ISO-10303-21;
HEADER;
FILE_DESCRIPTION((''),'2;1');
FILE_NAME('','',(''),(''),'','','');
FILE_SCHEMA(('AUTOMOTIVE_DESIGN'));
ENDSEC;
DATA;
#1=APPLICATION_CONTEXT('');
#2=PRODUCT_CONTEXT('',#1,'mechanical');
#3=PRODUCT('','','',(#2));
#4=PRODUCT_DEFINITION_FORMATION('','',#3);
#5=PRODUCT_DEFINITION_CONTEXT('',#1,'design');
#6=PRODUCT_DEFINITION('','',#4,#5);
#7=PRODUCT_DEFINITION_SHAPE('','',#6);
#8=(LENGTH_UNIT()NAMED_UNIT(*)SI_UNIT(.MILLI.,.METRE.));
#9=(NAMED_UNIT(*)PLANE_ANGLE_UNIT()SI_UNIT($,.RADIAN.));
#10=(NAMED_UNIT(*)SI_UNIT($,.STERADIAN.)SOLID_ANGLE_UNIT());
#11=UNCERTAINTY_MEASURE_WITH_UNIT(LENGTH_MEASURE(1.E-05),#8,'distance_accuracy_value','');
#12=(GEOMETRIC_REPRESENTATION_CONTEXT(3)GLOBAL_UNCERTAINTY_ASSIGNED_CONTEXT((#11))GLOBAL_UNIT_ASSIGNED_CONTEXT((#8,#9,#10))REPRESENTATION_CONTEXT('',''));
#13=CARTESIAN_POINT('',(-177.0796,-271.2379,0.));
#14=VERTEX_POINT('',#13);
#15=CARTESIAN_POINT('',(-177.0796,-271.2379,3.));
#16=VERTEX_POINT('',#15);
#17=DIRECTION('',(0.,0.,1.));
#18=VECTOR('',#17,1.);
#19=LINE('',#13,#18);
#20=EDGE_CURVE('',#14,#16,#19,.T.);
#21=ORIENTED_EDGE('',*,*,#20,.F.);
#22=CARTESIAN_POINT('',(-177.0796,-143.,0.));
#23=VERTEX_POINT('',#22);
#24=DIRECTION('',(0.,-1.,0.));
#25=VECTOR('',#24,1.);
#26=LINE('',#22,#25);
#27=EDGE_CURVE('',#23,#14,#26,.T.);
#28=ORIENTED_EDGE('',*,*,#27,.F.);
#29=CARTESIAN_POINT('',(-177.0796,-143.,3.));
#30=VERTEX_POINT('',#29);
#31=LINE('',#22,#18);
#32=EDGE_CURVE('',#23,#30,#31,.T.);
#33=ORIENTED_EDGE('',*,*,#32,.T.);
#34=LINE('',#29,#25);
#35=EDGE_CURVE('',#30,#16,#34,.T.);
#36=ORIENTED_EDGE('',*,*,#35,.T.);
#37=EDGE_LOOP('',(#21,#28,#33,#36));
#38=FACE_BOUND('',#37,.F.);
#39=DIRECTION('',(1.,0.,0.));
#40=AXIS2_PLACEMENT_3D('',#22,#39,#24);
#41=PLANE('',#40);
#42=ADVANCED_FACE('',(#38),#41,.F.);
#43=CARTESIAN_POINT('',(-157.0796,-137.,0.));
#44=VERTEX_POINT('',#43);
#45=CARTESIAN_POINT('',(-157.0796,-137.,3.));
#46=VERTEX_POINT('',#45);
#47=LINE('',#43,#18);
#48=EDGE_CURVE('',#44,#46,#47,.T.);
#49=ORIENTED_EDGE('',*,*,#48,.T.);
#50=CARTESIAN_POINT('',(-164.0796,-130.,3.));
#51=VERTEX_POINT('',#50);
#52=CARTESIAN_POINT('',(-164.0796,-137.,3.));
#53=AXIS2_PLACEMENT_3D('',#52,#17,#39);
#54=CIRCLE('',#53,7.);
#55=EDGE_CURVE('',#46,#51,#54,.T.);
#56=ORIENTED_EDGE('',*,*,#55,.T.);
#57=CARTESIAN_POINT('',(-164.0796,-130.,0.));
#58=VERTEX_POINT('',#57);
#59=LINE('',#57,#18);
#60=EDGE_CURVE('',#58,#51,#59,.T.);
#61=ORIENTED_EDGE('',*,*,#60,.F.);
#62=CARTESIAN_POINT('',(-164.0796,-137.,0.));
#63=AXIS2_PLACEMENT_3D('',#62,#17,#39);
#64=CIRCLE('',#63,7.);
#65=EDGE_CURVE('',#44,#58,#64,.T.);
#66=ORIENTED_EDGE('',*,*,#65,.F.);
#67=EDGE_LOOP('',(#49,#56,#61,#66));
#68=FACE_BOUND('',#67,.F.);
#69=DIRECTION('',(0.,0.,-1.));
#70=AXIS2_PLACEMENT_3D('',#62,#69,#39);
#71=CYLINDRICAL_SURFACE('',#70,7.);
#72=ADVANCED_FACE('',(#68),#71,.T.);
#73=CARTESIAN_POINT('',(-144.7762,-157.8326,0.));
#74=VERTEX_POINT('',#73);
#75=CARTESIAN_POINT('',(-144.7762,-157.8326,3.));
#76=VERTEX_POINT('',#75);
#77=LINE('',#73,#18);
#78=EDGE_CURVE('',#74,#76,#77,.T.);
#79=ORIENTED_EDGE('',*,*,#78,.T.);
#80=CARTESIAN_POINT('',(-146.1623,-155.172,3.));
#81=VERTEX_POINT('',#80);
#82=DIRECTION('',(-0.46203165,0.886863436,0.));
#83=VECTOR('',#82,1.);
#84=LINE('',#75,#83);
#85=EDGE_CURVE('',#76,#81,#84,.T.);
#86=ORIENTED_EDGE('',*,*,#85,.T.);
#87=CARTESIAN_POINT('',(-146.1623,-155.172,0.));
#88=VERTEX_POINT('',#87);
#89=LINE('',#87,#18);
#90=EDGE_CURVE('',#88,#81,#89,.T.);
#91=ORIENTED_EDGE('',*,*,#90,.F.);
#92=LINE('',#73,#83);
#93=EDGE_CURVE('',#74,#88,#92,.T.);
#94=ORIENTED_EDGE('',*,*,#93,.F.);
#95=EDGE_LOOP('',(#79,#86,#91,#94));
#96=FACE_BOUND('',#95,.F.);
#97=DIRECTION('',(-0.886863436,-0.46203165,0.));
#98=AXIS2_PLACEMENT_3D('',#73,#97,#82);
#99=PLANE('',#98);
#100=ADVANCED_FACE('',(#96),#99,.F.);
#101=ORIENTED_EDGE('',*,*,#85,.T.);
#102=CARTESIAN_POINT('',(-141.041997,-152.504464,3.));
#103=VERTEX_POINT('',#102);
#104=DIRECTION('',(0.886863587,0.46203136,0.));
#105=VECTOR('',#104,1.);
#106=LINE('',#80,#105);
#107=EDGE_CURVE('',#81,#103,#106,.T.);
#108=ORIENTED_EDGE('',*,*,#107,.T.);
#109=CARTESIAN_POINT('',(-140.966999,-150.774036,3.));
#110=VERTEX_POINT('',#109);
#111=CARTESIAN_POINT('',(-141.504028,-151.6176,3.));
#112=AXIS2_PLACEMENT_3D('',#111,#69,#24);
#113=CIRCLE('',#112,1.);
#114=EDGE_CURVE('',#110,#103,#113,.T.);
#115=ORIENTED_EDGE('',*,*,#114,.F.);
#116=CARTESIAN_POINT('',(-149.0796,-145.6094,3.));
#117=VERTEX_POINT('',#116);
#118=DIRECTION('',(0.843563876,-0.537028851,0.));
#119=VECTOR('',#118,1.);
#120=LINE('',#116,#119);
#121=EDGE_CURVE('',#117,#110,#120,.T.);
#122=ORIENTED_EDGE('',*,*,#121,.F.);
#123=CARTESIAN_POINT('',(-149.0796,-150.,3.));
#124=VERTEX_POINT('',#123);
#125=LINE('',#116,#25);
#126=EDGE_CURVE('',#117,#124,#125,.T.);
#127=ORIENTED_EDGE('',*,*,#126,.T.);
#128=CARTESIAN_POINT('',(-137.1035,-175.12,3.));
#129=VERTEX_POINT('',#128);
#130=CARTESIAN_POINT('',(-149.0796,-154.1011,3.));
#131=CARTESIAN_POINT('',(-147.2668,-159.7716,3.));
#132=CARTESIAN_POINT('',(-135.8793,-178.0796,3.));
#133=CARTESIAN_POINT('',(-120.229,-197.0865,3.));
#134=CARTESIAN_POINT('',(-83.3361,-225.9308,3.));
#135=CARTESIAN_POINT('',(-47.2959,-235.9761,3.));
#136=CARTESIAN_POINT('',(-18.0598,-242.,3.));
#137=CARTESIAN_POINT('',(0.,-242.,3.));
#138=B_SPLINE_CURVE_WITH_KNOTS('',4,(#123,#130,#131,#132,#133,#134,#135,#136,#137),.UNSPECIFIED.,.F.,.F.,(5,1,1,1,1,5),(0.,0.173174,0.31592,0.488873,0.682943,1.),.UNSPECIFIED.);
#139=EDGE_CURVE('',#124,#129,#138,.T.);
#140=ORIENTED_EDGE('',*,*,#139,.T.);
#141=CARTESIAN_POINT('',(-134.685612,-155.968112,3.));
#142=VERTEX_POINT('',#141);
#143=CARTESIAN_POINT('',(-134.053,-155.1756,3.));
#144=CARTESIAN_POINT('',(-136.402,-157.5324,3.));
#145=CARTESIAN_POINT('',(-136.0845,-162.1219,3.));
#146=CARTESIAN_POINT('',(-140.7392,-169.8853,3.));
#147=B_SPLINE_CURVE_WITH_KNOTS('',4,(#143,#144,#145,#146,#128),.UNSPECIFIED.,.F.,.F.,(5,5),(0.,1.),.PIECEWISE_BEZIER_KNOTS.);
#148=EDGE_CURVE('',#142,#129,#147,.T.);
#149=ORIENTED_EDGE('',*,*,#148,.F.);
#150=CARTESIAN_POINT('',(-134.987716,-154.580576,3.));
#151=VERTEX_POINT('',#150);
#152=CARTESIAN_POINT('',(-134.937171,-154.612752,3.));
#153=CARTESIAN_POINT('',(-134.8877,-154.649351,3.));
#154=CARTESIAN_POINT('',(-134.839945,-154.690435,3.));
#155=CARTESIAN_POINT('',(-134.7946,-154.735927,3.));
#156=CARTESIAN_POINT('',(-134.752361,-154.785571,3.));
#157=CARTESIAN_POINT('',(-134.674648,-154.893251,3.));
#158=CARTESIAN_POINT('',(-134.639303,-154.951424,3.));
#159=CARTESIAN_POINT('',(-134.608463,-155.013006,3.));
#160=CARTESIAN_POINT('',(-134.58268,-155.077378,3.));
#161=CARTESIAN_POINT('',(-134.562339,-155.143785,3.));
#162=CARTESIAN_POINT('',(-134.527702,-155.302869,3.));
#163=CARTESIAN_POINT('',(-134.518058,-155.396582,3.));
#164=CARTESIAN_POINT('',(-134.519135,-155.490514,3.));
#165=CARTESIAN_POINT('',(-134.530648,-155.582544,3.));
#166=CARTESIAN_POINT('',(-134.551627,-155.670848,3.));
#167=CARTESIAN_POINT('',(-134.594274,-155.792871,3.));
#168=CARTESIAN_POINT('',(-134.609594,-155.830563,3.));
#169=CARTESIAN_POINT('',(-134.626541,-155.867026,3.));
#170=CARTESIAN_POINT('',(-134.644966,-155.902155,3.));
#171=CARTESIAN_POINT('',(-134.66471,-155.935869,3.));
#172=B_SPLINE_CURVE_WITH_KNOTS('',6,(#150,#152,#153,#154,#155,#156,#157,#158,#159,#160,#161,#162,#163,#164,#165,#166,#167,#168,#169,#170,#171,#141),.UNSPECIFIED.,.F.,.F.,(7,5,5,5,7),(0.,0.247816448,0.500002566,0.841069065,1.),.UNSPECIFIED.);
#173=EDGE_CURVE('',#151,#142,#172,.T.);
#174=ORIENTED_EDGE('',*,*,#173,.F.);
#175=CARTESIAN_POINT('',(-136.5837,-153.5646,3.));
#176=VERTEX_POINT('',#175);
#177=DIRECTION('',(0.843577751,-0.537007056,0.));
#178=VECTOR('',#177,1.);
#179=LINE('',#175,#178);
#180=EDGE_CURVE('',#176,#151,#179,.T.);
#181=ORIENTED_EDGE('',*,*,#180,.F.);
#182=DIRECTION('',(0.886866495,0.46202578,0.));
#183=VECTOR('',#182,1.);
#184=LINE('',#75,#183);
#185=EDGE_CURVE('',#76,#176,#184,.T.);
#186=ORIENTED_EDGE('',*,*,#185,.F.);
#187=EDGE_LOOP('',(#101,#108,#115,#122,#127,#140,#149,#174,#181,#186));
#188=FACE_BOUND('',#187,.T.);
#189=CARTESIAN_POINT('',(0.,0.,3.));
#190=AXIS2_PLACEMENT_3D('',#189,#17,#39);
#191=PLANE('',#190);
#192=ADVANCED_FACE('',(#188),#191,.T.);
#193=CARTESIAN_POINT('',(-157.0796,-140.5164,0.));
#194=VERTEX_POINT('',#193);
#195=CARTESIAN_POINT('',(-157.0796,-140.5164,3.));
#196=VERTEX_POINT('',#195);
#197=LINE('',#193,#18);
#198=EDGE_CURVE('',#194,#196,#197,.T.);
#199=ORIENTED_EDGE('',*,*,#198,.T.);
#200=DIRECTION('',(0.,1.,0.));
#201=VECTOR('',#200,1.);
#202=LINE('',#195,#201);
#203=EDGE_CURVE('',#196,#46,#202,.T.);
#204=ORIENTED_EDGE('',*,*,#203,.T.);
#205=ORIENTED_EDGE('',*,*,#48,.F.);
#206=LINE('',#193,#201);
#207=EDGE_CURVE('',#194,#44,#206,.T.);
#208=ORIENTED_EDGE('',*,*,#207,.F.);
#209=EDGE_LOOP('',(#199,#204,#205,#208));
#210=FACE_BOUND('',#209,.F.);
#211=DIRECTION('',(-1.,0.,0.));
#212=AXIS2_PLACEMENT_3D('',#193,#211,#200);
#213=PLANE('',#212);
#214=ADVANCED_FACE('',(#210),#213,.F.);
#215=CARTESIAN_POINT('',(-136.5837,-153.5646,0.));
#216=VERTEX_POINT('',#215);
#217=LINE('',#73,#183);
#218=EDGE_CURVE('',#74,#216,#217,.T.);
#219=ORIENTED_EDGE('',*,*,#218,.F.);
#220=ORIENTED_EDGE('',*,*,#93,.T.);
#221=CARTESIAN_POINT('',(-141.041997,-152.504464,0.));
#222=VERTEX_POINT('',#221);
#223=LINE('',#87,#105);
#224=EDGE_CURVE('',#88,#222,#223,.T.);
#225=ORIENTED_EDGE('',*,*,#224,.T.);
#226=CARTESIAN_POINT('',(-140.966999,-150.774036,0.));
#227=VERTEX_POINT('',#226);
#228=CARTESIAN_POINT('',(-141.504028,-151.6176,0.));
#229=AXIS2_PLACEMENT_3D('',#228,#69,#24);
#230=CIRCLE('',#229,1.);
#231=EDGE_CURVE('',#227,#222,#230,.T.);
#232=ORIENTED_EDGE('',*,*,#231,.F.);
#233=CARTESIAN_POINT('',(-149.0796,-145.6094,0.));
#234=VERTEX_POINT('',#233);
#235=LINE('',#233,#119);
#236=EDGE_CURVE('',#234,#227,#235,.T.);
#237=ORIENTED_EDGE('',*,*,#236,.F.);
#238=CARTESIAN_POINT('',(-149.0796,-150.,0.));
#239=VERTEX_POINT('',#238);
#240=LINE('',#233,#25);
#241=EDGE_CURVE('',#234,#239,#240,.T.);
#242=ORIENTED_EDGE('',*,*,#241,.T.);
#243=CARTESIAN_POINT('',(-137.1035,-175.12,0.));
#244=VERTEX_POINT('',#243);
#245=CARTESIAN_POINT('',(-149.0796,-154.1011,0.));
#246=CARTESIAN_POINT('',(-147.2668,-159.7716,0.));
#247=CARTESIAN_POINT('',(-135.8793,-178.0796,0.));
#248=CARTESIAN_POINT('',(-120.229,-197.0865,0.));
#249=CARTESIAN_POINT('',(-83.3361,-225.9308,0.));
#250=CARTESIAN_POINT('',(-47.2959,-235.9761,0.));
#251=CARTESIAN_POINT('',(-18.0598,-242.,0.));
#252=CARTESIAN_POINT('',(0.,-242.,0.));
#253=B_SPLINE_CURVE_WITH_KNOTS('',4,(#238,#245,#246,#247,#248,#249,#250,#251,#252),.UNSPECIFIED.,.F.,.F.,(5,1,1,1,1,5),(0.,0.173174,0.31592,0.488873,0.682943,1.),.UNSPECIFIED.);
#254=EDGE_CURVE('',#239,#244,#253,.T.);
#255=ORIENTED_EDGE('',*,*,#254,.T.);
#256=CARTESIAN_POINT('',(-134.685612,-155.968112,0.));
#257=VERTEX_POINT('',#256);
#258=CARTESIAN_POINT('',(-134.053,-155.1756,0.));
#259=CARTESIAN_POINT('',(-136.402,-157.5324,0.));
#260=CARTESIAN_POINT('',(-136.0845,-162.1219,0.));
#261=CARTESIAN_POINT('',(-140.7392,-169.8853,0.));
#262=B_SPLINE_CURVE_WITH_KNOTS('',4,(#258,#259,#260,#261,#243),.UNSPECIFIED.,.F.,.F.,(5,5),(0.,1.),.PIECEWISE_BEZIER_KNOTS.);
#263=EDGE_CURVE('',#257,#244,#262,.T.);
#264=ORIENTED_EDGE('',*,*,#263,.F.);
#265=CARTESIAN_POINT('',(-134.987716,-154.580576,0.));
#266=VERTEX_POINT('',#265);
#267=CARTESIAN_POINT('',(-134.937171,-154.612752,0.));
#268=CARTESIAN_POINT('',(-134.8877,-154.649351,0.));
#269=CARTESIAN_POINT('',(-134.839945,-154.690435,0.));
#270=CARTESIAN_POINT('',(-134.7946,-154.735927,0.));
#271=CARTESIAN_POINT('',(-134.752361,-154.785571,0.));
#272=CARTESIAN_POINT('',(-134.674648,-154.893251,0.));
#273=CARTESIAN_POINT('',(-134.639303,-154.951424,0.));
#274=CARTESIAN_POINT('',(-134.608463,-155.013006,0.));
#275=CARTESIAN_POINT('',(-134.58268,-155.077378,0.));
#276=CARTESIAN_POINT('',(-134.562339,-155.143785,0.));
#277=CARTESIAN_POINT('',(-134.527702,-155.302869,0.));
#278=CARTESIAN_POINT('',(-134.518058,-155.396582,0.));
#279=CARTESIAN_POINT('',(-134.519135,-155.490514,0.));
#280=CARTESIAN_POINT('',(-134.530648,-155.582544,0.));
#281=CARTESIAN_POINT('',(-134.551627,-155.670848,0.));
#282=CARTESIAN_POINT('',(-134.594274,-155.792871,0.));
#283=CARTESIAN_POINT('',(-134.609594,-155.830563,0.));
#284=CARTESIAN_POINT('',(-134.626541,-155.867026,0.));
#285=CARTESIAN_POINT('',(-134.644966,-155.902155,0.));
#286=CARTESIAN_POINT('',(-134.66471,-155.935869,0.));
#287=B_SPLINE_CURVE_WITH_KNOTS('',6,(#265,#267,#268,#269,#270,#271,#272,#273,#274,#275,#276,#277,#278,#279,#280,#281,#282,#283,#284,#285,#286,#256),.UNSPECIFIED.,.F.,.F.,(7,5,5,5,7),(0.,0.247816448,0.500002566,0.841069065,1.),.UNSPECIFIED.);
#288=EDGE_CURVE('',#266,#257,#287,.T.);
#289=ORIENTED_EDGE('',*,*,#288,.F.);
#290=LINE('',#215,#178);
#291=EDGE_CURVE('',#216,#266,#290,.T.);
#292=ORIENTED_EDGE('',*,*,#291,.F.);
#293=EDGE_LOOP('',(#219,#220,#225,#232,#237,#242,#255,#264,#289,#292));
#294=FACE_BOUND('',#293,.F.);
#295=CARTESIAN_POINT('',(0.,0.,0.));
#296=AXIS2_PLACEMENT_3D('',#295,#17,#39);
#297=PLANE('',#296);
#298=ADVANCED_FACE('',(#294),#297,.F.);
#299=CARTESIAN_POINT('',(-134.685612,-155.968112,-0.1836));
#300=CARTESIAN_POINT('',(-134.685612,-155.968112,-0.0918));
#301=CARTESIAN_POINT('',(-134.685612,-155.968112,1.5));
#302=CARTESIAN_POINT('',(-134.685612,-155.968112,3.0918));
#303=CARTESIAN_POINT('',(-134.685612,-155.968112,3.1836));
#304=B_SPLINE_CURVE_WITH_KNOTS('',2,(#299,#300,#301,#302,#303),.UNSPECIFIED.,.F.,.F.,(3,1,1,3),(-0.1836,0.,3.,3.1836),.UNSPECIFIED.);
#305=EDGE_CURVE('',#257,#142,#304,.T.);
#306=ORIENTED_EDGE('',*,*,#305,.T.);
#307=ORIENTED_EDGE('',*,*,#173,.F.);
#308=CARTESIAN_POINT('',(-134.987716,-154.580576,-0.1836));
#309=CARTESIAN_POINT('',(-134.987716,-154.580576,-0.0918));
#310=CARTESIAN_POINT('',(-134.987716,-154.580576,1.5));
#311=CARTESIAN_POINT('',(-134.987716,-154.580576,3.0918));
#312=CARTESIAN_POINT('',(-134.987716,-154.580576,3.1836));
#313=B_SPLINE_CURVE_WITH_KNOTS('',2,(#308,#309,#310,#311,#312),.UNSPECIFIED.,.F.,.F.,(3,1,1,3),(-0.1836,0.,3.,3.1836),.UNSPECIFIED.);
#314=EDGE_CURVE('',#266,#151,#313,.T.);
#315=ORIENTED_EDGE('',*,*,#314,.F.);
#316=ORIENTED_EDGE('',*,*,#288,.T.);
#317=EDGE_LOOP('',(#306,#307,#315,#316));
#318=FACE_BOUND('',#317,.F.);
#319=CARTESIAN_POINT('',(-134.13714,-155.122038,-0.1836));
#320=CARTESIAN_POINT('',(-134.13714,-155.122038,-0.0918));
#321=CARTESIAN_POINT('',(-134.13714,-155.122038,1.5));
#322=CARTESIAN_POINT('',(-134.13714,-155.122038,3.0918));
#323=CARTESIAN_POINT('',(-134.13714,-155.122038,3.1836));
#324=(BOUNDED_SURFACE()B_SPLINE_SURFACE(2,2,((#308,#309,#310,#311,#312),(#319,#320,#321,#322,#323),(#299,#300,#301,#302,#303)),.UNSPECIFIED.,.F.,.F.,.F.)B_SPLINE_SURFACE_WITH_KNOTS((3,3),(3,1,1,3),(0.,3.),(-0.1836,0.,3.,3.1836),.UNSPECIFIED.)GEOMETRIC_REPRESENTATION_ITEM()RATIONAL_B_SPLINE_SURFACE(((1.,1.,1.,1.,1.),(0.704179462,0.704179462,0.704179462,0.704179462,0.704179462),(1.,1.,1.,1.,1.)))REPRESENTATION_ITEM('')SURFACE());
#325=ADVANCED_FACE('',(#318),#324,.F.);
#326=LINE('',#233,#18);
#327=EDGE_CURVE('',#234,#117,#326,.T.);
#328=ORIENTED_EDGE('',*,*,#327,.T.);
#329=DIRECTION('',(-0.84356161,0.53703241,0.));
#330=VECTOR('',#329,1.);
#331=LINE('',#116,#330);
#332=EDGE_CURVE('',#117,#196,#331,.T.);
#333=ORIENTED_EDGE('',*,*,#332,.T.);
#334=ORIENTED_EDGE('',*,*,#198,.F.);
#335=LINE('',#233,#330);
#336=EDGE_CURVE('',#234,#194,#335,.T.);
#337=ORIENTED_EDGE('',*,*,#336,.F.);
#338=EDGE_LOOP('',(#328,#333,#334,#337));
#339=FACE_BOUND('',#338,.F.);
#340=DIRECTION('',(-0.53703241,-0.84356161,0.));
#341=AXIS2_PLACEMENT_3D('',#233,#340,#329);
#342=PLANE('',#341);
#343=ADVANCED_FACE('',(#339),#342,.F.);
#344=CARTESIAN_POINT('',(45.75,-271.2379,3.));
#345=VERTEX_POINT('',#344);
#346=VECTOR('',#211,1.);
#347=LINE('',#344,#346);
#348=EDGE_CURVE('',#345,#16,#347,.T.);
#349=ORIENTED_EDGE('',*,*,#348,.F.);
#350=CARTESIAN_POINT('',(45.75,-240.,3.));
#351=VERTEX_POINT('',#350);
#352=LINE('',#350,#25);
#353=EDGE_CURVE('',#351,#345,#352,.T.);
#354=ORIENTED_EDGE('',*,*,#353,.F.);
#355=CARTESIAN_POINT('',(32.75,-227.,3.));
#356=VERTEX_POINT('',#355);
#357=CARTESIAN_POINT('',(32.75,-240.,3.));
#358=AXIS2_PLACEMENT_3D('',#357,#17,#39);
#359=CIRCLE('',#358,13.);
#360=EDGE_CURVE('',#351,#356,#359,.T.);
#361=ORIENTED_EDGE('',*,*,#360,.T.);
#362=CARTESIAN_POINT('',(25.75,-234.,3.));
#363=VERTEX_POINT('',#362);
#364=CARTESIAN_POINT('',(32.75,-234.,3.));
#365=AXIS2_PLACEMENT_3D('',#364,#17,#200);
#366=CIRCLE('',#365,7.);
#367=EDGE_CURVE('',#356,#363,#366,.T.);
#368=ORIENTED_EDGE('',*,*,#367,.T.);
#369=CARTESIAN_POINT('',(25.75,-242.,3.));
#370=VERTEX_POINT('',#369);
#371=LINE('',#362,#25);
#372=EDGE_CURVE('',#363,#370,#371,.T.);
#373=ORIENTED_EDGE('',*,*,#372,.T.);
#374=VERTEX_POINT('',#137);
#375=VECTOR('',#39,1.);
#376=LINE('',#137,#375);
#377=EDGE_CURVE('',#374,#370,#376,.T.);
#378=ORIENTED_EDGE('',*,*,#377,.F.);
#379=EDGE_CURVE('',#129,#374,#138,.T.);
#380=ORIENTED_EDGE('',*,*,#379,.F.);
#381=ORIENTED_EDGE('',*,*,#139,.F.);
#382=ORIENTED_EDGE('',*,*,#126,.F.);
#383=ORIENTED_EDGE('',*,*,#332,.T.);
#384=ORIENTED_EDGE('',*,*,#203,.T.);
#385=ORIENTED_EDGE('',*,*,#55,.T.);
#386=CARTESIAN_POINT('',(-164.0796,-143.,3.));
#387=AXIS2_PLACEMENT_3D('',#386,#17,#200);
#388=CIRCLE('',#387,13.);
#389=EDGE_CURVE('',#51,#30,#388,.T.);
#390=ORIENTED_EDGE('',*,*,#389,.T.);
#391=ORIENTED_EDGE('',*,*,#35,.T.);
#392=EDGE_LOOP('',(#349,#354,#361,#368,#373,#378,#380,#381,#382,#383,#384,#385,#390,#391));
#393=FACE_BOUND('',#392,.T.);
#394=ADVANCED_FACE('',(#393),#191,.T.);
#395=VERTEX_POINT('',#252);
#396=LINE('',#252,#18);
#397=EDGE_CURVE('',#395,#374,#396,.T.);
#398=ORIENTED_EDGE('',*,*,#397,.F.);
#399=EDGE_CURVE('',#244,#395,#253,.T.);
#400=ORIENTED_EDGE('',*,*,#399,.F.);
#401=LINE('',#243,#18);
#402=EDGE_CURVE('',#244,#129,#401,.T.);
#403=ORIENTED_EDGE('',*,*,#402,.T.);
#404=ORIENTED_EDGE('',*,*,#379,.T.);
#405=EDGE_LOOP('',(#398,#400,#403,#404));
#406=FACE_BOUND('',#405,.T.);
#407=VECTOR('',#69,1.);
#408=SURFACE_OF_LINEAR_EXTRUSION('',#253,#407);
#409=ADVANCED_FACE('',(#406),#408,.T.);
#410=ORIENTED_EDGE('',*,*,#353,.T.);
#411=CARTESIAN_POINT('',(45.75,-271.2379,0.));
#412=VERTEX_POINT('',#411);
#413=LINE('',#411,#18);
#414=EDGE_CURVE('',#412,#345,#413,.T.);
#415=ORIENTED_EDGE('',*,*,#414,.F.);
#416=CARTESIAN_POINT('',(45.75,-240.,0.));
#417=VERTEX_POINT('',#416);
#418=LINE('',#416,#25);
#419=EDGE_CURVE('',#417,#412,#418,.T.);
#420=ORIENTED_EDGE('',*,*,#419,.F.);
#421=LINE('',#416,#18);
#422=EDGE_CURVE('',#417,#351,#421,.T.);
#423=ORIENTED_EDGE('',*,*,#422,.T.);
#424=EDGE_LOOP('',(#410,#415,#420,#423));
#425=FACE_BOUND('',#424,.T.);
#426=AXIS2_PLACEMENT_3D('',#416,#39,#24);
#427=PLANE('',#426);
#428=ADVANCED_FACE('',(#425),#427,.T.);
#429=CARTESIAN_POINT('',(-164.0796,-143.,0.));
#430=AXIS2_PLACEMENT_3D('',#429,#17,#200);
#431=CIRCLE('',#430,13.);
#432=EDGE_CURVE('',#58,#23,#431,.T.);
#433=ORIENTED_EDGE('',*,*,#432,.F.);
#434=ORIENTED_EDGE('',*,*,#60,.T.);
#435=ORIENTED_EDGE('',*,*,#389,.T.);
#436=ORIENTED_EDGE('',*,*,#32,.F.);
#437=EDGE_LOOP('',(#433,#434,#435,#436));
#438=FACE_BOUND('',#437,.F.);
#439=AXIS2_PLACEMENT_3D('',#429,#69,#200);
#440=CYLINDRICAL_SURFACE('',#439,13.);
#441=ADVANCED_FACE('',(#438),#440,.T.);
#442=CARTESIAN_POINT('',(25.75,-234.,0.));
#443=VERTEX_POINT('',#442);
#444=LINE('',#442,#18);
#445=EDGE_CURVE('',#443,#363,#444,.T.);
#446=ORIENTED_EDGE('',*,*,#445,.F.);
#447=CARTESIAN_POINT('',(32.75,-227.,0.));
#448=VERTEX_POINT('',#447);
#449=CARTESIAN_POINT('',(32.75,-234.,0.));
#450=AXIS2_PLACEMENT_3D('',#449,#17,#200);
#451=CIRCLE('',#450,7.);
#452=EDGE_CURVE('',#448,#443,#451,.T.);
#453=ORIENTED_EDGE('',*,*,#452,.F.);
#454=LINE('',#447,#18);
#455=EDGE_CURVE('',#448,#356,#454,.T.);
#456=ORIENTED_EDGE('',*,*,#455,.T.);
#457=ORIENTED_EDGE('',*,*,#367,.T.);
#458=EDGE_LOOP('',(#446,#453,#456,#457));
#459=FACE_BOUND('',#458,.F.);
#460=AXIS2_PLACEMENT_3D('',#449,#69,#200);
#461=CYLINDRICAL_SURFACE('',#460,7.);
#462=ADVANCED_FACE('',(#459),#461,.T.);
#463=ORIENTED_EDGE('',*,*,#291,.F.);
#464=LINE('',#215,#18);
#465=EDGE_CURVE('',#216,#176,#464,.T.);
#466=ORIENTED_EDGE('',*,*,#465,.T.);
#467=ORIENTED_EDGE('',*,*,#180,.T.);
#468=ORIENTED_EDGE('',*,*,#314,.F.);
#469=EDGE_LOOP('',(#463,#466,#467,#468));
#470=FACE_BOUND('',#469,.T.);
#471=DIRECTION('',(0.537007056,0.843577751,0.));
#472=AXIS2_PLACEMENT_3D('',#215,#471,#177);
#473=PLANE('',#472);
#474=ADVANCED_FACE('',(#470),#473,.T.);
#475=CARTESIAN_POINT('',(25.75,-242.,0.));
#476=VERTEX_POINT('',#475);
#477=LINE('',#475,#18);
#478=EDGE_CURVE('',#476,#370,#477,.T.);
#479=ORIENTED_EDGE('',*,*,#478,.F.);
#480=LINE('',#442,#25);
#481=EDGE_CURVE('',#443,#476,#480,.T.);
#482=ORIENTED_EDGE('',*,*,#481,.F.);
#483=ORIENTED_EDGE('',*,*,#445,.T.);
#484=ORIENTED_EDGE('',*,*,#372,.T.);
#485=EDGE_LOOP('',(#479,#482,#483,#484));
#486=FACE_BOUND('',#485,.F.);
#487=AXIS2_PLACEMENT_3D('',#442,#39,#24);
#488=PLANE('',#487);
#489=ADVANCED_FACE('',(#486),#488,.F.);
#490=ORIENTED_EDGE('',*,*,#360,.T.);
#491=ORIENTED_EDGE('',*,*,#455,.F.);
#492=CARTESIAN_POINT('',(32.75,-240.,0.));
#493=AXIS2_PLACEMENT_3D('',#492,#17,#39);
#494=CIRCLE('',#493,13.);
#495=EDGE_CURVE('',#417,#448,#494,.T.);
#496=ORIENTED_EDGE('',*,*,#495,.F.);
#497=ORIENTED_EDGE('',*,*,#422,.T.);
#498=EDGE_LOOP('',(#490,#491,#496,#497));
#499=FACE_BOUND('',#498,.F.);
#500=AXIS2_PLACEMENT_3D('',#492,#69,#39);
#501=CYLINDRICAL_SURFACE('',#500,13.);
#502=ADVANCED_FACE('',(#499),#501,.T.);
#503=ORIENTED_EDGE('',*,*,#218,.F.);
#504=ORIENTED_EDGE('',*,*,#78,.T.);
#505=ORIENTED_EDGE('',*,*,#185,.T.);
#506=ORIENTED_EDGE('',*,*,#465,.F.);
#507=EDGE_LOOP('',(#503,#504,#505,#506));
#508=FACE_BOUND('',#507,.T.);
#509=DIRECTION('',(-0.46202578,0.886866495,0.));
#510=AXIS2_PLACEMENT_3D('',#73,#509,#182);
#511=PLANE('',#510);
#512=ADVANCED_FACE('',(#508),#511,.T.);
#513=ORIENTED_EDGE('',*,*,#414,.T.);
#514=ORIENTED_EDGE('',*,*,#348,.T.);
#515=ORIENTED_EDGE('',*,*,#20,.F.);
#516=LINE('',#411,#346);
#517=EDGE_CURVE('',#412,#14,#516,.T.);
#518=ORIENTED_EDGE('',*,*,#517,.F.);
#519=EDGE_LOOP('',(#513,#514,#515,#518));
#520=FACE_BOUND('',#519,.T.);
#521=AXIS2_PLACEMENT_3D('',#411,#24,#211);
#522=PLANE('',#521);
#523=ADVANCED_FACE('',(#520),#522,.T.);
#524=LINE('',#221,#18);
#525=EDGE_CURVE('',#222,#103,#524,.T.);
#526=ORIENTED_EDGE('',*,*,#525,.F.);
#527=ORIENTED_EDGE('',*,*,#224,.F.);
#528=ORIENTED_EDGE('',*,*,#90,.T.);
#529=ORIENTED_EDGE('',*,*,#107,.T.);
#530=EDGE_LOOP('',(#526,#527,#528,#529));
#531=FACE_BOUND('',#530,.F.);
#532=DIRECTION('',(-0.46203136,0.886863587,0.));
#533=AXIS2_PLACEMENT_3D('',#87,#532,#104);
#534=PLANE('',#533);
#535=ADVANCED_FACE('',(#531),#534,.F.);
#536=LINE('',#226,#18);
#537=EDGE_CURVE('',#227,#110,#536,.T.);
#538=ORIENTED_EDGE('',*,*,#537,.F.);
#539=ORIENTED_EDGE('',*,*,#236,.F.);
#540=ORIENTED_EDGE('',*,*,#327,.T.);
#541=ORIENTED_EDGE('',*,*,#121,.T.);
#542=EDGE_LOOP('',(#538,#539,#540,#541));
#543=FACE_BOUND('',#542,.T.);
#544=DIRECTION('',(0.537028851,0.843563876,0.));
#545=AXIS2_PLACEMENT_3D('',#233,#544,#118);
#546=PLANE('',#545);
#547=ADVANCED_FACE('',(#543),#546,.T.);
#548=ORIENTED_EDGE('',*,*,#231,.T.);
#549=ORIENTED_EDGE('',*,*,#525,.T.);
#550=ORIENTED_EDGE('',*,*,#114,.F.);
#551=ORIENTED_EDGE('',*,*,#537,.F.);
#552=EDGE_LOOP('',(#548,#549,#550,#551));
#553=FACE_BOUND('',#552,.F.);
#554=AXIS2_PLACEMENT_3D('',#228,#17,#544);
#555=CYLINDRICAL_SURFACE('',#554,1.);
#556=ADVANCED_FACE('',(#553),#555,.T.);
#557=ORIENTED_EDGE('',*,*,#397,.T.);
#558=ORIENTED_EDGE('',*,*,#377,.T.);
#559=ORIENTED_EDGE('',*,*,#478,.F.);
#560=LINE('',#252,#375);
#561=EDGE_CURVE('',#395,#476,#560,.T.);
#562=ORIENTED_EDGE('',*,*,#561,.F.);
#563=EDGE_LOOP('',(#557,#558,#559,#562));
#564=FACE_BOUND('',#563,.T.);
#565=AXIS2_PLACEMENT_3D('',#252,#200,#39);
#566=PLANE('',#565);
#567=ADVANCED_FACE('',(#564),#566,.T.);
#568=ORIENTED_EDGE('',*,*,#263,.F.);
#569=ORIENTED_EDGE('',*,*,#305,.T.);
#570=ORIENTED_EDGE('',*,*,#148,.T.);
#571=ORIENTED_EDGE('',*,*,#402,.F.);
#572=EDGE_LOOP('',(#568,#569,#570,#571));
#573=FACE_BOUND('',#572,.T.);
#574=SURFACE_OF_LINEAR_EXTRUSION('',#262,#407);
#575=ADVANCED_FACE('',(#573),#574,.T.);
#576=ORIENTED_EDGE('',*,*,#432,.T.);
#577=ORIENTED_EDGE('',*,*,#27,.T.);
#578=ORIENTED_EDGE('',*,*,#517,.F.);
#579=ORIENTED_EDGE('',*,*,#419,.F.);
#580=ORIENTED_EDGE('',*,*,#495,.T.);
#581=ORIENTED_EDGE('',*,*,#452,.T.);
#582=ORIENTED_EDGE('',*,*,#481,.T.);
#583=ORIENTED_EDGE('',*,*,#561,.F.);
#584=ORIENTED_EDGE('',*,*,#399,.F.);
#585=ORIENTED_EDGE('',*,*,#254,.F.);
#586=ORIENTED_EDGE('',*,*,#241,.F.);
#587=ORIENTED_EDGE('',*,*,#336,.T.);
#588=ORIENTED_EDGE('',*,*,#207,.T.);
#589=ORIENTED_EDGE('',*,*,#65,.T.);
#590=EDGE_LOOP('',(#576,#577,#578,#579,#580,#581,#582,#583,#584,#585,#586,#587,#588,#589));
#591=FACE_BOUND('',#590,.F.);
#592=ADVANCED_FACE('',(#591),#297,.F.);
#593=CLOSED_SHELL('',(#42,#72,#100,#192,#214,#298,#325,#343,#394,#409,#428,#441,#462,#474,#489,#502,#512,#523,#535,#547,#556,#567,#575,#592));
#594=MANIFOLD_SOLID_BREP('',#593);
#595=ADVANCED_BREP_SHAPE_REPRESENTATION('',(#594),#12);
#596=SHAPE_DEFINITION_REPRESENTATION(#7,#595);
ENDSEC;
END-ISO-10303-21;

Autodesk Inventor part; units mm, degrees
ref_plane "YZ Plane" through (0, 0, 0) normal (1, 0, 0) x (0, 1, 0)
ref_plane "XZ Plane" through (0, 0, 0) normal (0, 1, 0) x (-1, 0, 0)
ref_plane "XY Plane" through (0, 0, 0) normal (0, 0, 1) x (1, 0, 0)
sketch "Sketch3" plane through (0, 0, 0) normal (0, 0, 1) x (1, 0, 0)
  circle A0 centre (368.0481, 50) radius 50 construction
  line L0 (368.0481, 0) -> (514.9541, 0) construction
  line L1 (368.0481, 50) -> (514.9541, 50) construction
  line L2 (368.0481, 100) -> (514.9541, 100) construction
  line L3 (368.0481, 50) -> (343.0481, 6.6987) construction
  line L4 (368.0481, 50) -> (324.7469, 25) construction
  line L5 (368.0481, 50) -> (324.7469, 75) construction
  line L6 (343.0481, 93.3013) -> (368.0481, 50) construction
  line L7 (393.0481, 93.3013) -> (368.0481, 50) construction
  line L8 (411.3494, 75) -> (368.0481, 50) construction
  line L9 (411.3494, 25) -> (368.0481, 50) construction
  line L10 (393.0481, 6.6987) -> (368.0481, 50) construction
  line L11 (368.0481, 0) -> (368.0481, 100) construction
  line L12 (418.0481, 50) -> (368.0481, 50) construction
  line L13 (341.8682, 0) -> (341.8682, 100) construction
  line L14 (315.6883, 0) -> (315.6883, 100) construction
  line L15 (289.5083, 0) -> (289.5083, 100) construction
  line L16 (263.3284, 0) -> (263.3284, 100) construction
  line L17 (237.1485, 0) -> (237.1485, 100) construction
  line L18 (210.9685, 0) -> (210.9685, 100) construction
  line L19 (184.7886, 0) -> (184.7886, 100) construction
  line L20 (158.6086, 0) -> (158.6086, 100) construction
  circle A1 centre (315.6883, 50) radius 50 construction
  circle A2 centre (341.8682, 50) radius 50 construction
  circle A3 centre (289.5083, 50) radius 50 construction
  circle A4 centre (263.3284, 50) radius 50 construction
  circle A5 centre (237.1485, 50) radius 50 construction
  circle A6 centre (210.9685, 50) radius 50 construction
  line L21 (393.0481, 6.6987) -> (514.9541, 6.6987) construction
  line L22 (411.3494, 25) -> (514.9541, 25) construction
  line L23 (411.3494, 75) -> (514.9541, 75) construction
  line L24 (411.3494, 75) -> (514.9541, 75) construction
  line L25 (393.0481, 93.3013) -> (514.9541, 93.3013) construction
  line L26 (358.9895, 75) -> (339.5083, 50) construction
  line L27 (339.5083, 50) -> (306.6297, 25) construction
  line L28 (306.6297, 25) -> (262.1485, 6.6987) construction
  line L29 (262.1485, 6.6987) -> (210.9685, 0) construction
  line L30 (105.4843, -12.0642) -> (105.4843, 125.3083) construction
  line L31 (25.75, 0) -> (25.75, 23)
  line L32 (45.75, 17) -> (45.75, -21.2379)
  arc A7 (32.75, 30) -> (25.75, 23) centre (32.75, 23) ccw
  arc A8 (45.75, 17) -> (32.75, 30) centre (32.75, 17) ccw
  line L33 (32.75, 17) -> (45.75, 17) construction
  line L34 (32.75, 17) -> (32.75, 30) construction
  arc A9 (0, 0) -> (8.875, -12.2379) centre (12.875, 0) ccw
  arc A10 (16.875, -12.2379) -> (25.75, 0) centre (12.875, 0) ccw
  line L35 (45.75, -21.2379) -> (16.875, -21.2379)
  line L36 (8.875, -21.2379) -> (-177.0796, -21.2379)
  circle A11 centre (-144.2046, 110.3653) radius 12.875 construction
  line L37 (8.875, -21.2379) -> (8.875, -12.2379)
  line L38 (16.875, -21.2379) -> (16.875, -12.2379)
  line L39 (411.3494, 75) -> (158.6086, 75) construction
  line L40 (368.0481, 100) -> (158.6086, 100) construction
  line L41 (418.0481, 50) -> (158.6086, 50) construction
  line L42 (411.3494, 25) -> (158.6086, 25) construction
  line L43 (393.0481, 6.6987) -> (158.6086, 6.6987) construction
  line L44 (393.0481, 93.3013) -> (158.6086, 93.3013) construction
  line L45 (358.9895, 75) -> (366.8682, 93.3013) construction
  line L46 (366.8682, 93.3013) -> (368.0481, 100) construction
  spline S0 degree 4 poles (-157.0796, 100) (-157.0796, 88.9946) (-147.011, 72.6811) (-131.8577, 48.7932) (-88.4777, 17.6268) (-50.0176, 3.937) (-18.8717, 0) (0, 0) knots 0 0 0 0 0 0.264547 0.457223 0.66608 1 1 1 1 1
  line L47 (-157.0796, 100) -> (-157.0796, 81.2146) construction
  line L48 (0, 0) -> (-42.8818, 0) construction
  line L49 (-157.0796, 100) -> (-157.0796, 113)
  line L50 (-144.2046, 110.3653) -> (-157.0796, 110.3653) construction
  line L51 (-147.6984, 94.0277) -> (-120.1158, 108.3975) construction
  line L52 (-157.0796, 100) -> (0, 0) construction
  circle A12 centre (-147.2046, 105.4197) radius 9.875 construction
  line L53 (-147.2046, 105.4197) -> (-157.0796, 105.4197) construction
  line L54 (-146.1623, 94.828) -> (-144.7762, 92.1674) construction
  line L55 (-144.7762, 92.1674) -> (-142.2689, 93.4736) construction
  line L56 (-177.0796, 107) -> (-177.0796, -21.2379)
  arc A13 (-157.0796, 113) -> (-164.0796, 120) centre (-164.0796, 113) ccw
  line L57 (-164.0796, 113) -> (-164.0796, 120) construction
  line L58 (-164.0796, 113) -> (-157.0796, 113) construction
  arc A14 (-164.0796, 120) -> (-177.0796, 107) centre (-164.0796, 107) ccw
  line L59 (-164.0796, 107) -> (-177.0796, 107) construction
  line L60 (-164.0796, 107) -> (-164.0796, 120) construction
  line L61 (-457.0796, 100) -> (-300, 0)
  line L62 (-757.0796, 100) -> (-757.0796, 76.4376)
  line L63 (-600, 0) -> (-652.3765, 0)
  spline S1 degree 4 poles (-757.0796, 76.4376) (-757.0796, 65.0585) (-753.7776, 47.1407) (-745.4013, 7.8331) (-693.0053, 2.4317) (-668.8587, 0) (-652.3765, 0) knots 0 0 0 0 0 0.348765 0.598765 1 1 1 1 1
  line L64 (-477.0796, 107) -> (-477.0796, -21.2379)
  arc A15 (-464.0796, 120) -> (-477.0796, 107) centre (-464.0796, 107) ccw
  arc A16 (-457.0796, 113) -> (-464.0796, 120) centre (-464.0796, 113) ccw
  line L65 (-457.0796, 100) -> (-457.0796, 113)
  circle A17 centre (-447.2046, 105.4197) radius 9.875 construction
  circle A18 centre (-444.2046, 110.3653) radius 12.875 construction
  line L66 (-457.0796, 100) -> (-300, 0) construction
  line L67 (-447.6984, 94.0277) -> (-420.1158, 108.3975) construction
  line L68 (-444.7762, 92.1674) -> (-442.2689, 93.4736) construction
  line L69 (-446.1623, 94.828) -> (-444.7762, 92.1674) construction
  line L70 (-291.125, -21.2379) -> (-477.0796, -21.2379)
  arc A19 (-300, 0) -> (-291.125, -12.2379) centre (-287.125, 0) ccw
  line L71 (-291.125, -21.2379) -> (-291.125, -12.2379)
  line L72 (-283.125, -21.2379) -> (-283.125, -12.2379)
  arc A20 (-283.125, -12.2379) -> (-274.25, 0) centre (-287.125, 0) ccw
  line L73 (-254.25, -21.2379) -> (-283.125, -21.2379)
  line L74 (-254.25, 17) -> (-254.25, -21.2379)
  line L75 (-274.25, 0) -> (-274.25, 23)
  arc A21 (-267.25, 30) -> (-274.25, 23) centre (-267.25, 23) ccw
  arc A22 (-254.25, 17) -> (-267.25, 30) centre (-267.25, 17) ccw
  line L76 (-777.0796, 107) -> (-777.0796, -21.2379)
  arc A23 (-764.0796, 120) -> (-777.0796, 107) centre (-764.0796, 107) ccw
  arc A24 (-757.0796, 113) -> (-764.0796, 120) centre (-764.0796, 113) ccw
  line L77 (-757.0796, 100) -> (-757.0796, 113)
  circle A25 centre (-747.2046, 105.4197) radius 9.875 construction
  circle A26 centre (-744.2046, 110.3653) radius 12.875 construction
  line L78 (-757.0796, 100) -> (-600, 0) construction
  line L79 (-747.6984, 94.0277) -> (-720.1158, 108.3975) construction
  line L80 (-744.7762, 92.1674) -> (-742.2689, 93.4736) construction
  line L81 (-746.1623, 94.828) -> (-744.7762, 92.1674) construction
  line L82 (-591.125, -21.2379) -> (-777.0796, -21.2379)
  arc A27 (-600, 0) -> (-591.125, -12.2379) centre (-587.125, 0) ccw
  line L83 (-591.125, -21.2379) -> (-591.125, -12.2379)
  line L84 (-583.125, -21.2379) -> (-583.125, -12.2379)
  arc A28 (-583.125, -12.2379) -> (-574.25, 0) centre (-587.125, 0) ccw
  line L85 (-554.25, -21.2379) -> (-583.125, -21.2379)
  line L86 (-554.25, 17) -> (-554.25, -21.2379)
  line L87 (-574.25, 0) -> (-574.25, 23)
  arc A29 (-567.25, 30) -> (-574.25, 23) centre (-567.25, 23) ccw
  arc A30 (-554.25, 17) -> (-567.25, 30) centre (-567.25, 17) ccw
  line L88 (32.75, -233) -> (45.75, -233) construction
  line L89 (32.75, -233) -> (32.75, -220) construction
  arc A31 (45.75, -233) -> (32.75, -220) centre (32.75, -233) ccw construction
  line L90 (25.75, -250) -> (25.75, -227) construction
  line L91 (45.75, -233) -> (45.75, -271.2379) construction
  arc A32 (16.875, -262.2379) -> (25.75, -250) centre (12.875, -250) ccw construction
  line L92 (45.75, -271.2379) -> (16.875, -271.2379) construction
  arc A33 (0, -250) -> (8.875, -262.2379) centre (12.875, -250) ccw construction
  arc A34 (32.75, -220) -> (25.75, -227) centre (32.75, -227) ccw construction
  line L93 (8.875, -271.2379) -> (-177.0796, -271.2379) construction
  line L94 (-157.0796, -150) -> (0, -250) construction
  spline S2 degree 4 poles (-157.0796, -150) (-157.0796, -161.0054) (-147.011, -177.3189) (-131.8577, -201.2068) (-88.4777, -232.3732) (-50.0176, -246.063) (-18.8717, -250) (0, -250) knots 0 0 0 0 0 0.264547 0.457223 0.66608 1 1 1 1 1 construction
  line L95 (-177.0796, -143) -> (-177.0796, -271.2379)
  line L96 (-146.1623, -155.172) -> (-144.7762, -157.8326) construction
  line L97 (-144.7762, -157.8326) -> (-142.2689, -156.5264) construction
  line L98 (-147.6984, -155.9723) -> (-120.1158, -141.6025) construction
  line L99 (-157.0796, -150) -> (-157.0796, -168.7854) construction
  line L100 (-147.2046, -144.5803) -> (-157.0796, -144.5803) construction
  line L101 (-144.2046, -139.6347) -> (-157.0796, -139.6347) construction
  circle A35 centre (-147.2046, -144.5803) radius 9.875 construction
  line L102 (0, -250) -> (-42.8818, -250) construction
  line L103 (16.875, -271.2379) -> (16.875, -262.2379) construction
  line L104 (8.875, -271.2379) -> (8.875, -262.2379) construction
  circle A36 centre (-144.2046, -139.6347) radius 12.875 construction
  line L105 (-164.0796, -143) -> (-177.0796, -143) construction
  line L106 (-157.0796, -150) -> (-157.0796, -137) construction
  line L107 (-164.0796, -137) -> (-157.0796, -137) construction
  arc A37 (-157.0796, -137) -> (-164.0796, -130) centre (-164.0796, -137) ccw
  line L108 (-164.0796, -137) -> (-164.0796, -130) construction
  line L109 (-164.0796, -143) -> (-164.0796, -130) construction
  arc A38 (-164.0796, -130) -> (-177.0796, -143) centre (-164.0796, -143) ccw
  arc A39 (32.75, -227) -> (25.75, -234) centre (32.75, -234) ccw
  line L110 (32.75, -234) -> (25.75, -234) construction
  line L111 (32.75, -234) -> (32.75, -227) construction
  line L112 (45.75, -271.2379) -> (-177.0796, -271.2379)
  arc A40 (45.75, -240) -> (32.75, -227) centre (32.75, -240) ccw
  line L113 (32.75, -240) -> (45.75, -240) construction
  line L114 (32.75, -240) -> (32.75, -227) construction
  line L115 (45.75, -240) -> (45.75, -271.2379)
  line L116 (0, -242) -> (25.75, -242)
  line L117 (25.75, -234) -> (25.75, -242)
  line L118 (-149.0796, -145.6094) -> (-149.0796, -150)
  line L119 (-149.0796, -145.6094) -> (-157.0796, -140.5164)
  line L120 (-157.0796, -140.5164) -> (-157.0796, -137)
  line L121 (57.9242, -250) -> (-50.1018, -250) construction
  spline S3 degree 4 poles (-149.0796, -150) (-149.0796, -154.1011) (-147.2668, -159.7716) (-135.8793, -178.0796) (-120.229, -197.0865) (-83.3361, -225.9308) (-47.2959, -235.9761) (-18.0598, -242) (0, -242) knots 0 0 0 0 0 0.173174 0.31592 0.488873 0.682943 1 1 1 1 1
  line L122 (-158.9844, -148.7874) -> (-160.5796, -147.7718) construction
  line L123 (-149.0796, -145.6094) -> (2.3304, -242) construction
  line L124 (-149.0796, -145.6094) -> (-139.5059, -151.7042)
  line L125 (-146.1623, -155.172) -> (-139.5059, -151.7042)
  line L126 (-144.7762, -157.8326) -> (-146.1623, -155.172)
  line L127 (-144.7762, -157.8326) -> (-136.5837, -153.5646)
  line L128 (-136.5837, -153.5646) -> (-134.053, -155.1756)
  line L129 (-136.5837, -153.5646) -> (-136.7042, -153.7538) construction
  line L130 (-134.053, -155.1756) -> (-134.1481, -155.3251) construction
  spline S4 degree 4 poles (-134.053, -155.1756) (-136.402, -157.5324) (-136.0845, -162.1219) (-140.7392, -169.8853) (-137.1035, -175.12) knots 0 0 0 0 0 1 1 1 1 1
  line L131 (-134.053, -155.1756) -> (-131.4385, -154.0999) construction
  line L132 (-254.25, -271.2379) -> (-477.0796, -271.2379)
  line L133 (-477.0796, -143) -> (-477.0796, -271.2379)
  arc A41 (-464.0796, -130) -> (-477.0796, -143) centre (-464.0796, -143) ccw
  arc A42 (-457.0796, -137) -> (-464.0796, -130) centre (-464.0796, -137) ccw
  line L134 (-457.0796, -140.5164) -> (-457.0796, -137)
  line L135 (-449.0796, -145.6094) -> (-457.0796, -140.5164)
  line L136 (-449.0796, -145.6094) -> (-439.5059, -151.7042)
  line L137 (-446.1623, -155.172) -> (-439.5059, -151.7042)
  line L138 (-444.7762, -157.8326) -> (-446.1623, -155.172)
  line L139 (-444.7762, -157.8326) -> (-436.5837, -153.5646)
  line L140 (-436.5837, -153.5646) -> (-434.053, -155.1756)
  line L141 (-449.0796, -145.6094) -> (-297.6696, -242) construction
  line L142 (-300, -242) -> (-274.25, -242)
  line L143 (-274.25, -234) -> (-274.25, -242)
  arc A43 (-267.25, -227) -> (-274.25, -234) centre (-267.25, -234) ccw
  arc A44 (-254.25, -240) -> (-267.25, -227) centre (-267.25, -240) ccw
  line L144 (-254.25, -240) -> (-254.25, -271.2379)
  circle A45 centre (-447.2046, -144.5803) radius 9.875 construction
  line L145 (-457.0796, -150) -> (-300, -250) construction
  circle A46 centre (-444.2046, -139.6347) radius 12.875 construction
  line L146 (-554.25, -271.2379) -> (-777.0796, -271.2379)
  line L147 (-777.0796, -143) -> (-777.0796, -271.2379)
  arc A47 (-764.0796, -130) -> (-777.0796, -143) centre (-764.0796, -143) ccw
  arc A48 (-757.0796, -137) -> (-764.0796, -130) centre (-764.0796, -137) ccw
  line L148 (-757.0796, -140.5164) -> (-757.0796, -137)
  line L149 (-749.0796, -145.6094) -> (-757.0796, -140.5164)
  line L150 (-749.0796, -145.6094) -> (-739.5059, -151.7042)
  line L151 (-746.1623, -155.172) -> (-739.5059, -151.7042)
  line L152 (-744.7762, -157.8326) -> (-746.1623, -155.172)
  line L153 (-744.7762, -157.8326) -> (-736.5837, -153.5646)
  line L154 (-736.5837, -153.5646) -> (-734.053, -155.1756)
  line L155 (-749.0796, -145.6094) -> (-597.6696, -242) construction
  line L156 (-600, -242) -> (-574.25, -242)
  line L157 (-574.25, -234) -> (-574.25, -242)
  arc A49 (-567.25, -227) -> (-574.25, -234) centre (-567.25, -234) ccw
  arc A50 (-554.25, -240) -> (-567.25, -227) centre (-567.25, -240) ccw
  line L158 (-554.25, -240) -> (-554.25, -271.2379)
  circle A51 centre (-747.2046, -144.5803) radius 9.875 construction
  line L159 (-757.0796, -150) -> (-600, -250) construction
  circle A52 centre (-744.2046, -139.6347) radius 12.875 construction
  line L160 (-297.6696, -242) -> (-434.053, -155.1756)
  spline S5 degree 4 poles (-757.0796, -173.5624) (-757.0796, -184.9415) (-753.7776, -202.8593) (-745.4013, -242.1669) (-693.0053, -247.5683) (-668.8587, -250) (-652.3765, -250) knots 0 0 0 0 0 0.348765 0.598765 1 1 1 1 1 construction
  line L161 (-757.0796, -150) -> (-757.0796, -173.5624)
  line L162 (-600, -250) -> (-652.3765, -250) construction
  line L163 (-600, -242) -> (-652.3765, -242)
  spline S6 degree 4 poles (-749.0796, -173.5624) (-749.0796, -183.7991) (-746.0176, -199.7502) (-737.9559, -236.335) (-690.8375, -239.2991) (-667.8077, -242) (-652.3765, -242) knots 0 0 0 0 0 0.346383 0.596383 1 1 1 1 1
  line L164 (-749.0796, -173.5624) -> (-749.0796, -170.035) construction
  spline S7 degree 3 poles (-734.053, -155.1756) (-737.3459, -159.7447) (-749.7015, -168.8593) (-748.818, -180.0805) knots 0 0 0 0 1 1 1 1
  point P0 (158.6086, 0)
  point P1 (-148.021, 75)
  point P2 (-128.5398, 50)
  point P3 (-95.6611, 25)
  point P4 (-51.1799, 6.6987)
  point P5 (-155.8997, 93.3013)
  point P6 (-753.2027, 48.1984)
  point P7 (-737.7866, 19.9116)
  point P8 (-697.6619, 3.8098)
  point P9 (-457.0796, 110.3653)
  point P10 (-457.0796, 105.4197)
  point P11 (-757.0796, 110.3653)
  point P12 (-757.0796, 105.4197)
  point P13 (-51.1799, -243.3013)
  point P14 (-95.6611, -225)
  point P15 (-148.021, -175)
  point P16 (-128.5398, -200)
  point P17 (-155.8997, -156.6987)
  point P18 (-157.0796, -141.4334)
  point P19 (-153.0796, -143.0629)
  point P20 (-152.1421, -144.5803)
  point P21 (3.9112, -250)
  point P22 (-147.2046, -158.2164)
  point P23 (-137.7547, -174.1759)
  point P24 (-121.904, -193.5196)
  point P25 (-91.5665, -216.9339)
  point P26 (-48.8291, -234.4712)
  point P27 (-135.7656, -158.3121)
  point P28 (-137.8276, -165.6332)
  point P29 (-453.0796, -143.0629)
  point P30 (-457.0796, -144.5803)
  point P31 (-447.6984, -155.9723)
  point P32 (-457.0796, -139.6347)
  point P33 (-753.0796, -143.0629)
  point P34 (-757.0796, -144.5803)
  point P35 (-747.6984, -155.9723)
  point P36 (-757.0796, -139.6347)
  point P37 (-753.2027, -201.8016)
  point P38 (-737.7866, -230.0884)
  point P39 (-697.6619, -246.1902)
  point P40 (-745.4939, -198.9007)
  point P41 (-731.3987, -224.5882)
  point P42 (-695.3384, -238.4632)
  point P43 (-741.9708, -163.8819)
  dimension "d43" = 25.75
  dimension "d53" = 19.75
  dimension "diameter" = 100
  dimension "d8" = 26.1799
  dimension "d14" = 30
  dimension "d15" = 30
  dimension "d16" = 30
  dimension "d26" = 90
  dimension "stopper" = 30
  dimension "stopperthickness" = 20
  dimension "d32" = 12.875
  dimension "d33" = 12.875
  dimension "d38" = 6
  dimension "d47" = 8
  dimension "d49" = 9
  dimension "d55" = 120
  dimension "d56" = 3
  dimension "d57" = 90
  dimension "d58" = 90
  dimension "d59" = 20
  dimension "d60" = 6
  dimension "d61" = 20
  dimension "d62" = 28.875
  dimension "d72" = 300
  dimension "d93" = 250
  dimension "d98" = 90
  dimension "d99" = 44.2379
  dimension "d100" = 37.2379
  dimension "d101" = 90
  dimension "railheight" = 8
  dimension "d104" = 8
  dimension "d105" = 8
  dimension "d106" = 3
  dimension "d109" = 300
  dimension "d116" = 250
  dimension "d121" = 8
extrude "Extrusion1" add sketch "Sketch3" along normal blind 3 contours A38 A37 L120 L119 L118 S3 L116 L117 A39 A40 L115 L112 L95 | L124 L125 L126 L127 L128 S4 S3 L118
fillet "Fillet1" radius 1 2 edges at (-139.5059, -151.7042, 1.5) (-134.053, -155.1756, 1.5)
equation "\"d8\" = 0.261799 * diameter"
properties part number "cyloid-rail"
